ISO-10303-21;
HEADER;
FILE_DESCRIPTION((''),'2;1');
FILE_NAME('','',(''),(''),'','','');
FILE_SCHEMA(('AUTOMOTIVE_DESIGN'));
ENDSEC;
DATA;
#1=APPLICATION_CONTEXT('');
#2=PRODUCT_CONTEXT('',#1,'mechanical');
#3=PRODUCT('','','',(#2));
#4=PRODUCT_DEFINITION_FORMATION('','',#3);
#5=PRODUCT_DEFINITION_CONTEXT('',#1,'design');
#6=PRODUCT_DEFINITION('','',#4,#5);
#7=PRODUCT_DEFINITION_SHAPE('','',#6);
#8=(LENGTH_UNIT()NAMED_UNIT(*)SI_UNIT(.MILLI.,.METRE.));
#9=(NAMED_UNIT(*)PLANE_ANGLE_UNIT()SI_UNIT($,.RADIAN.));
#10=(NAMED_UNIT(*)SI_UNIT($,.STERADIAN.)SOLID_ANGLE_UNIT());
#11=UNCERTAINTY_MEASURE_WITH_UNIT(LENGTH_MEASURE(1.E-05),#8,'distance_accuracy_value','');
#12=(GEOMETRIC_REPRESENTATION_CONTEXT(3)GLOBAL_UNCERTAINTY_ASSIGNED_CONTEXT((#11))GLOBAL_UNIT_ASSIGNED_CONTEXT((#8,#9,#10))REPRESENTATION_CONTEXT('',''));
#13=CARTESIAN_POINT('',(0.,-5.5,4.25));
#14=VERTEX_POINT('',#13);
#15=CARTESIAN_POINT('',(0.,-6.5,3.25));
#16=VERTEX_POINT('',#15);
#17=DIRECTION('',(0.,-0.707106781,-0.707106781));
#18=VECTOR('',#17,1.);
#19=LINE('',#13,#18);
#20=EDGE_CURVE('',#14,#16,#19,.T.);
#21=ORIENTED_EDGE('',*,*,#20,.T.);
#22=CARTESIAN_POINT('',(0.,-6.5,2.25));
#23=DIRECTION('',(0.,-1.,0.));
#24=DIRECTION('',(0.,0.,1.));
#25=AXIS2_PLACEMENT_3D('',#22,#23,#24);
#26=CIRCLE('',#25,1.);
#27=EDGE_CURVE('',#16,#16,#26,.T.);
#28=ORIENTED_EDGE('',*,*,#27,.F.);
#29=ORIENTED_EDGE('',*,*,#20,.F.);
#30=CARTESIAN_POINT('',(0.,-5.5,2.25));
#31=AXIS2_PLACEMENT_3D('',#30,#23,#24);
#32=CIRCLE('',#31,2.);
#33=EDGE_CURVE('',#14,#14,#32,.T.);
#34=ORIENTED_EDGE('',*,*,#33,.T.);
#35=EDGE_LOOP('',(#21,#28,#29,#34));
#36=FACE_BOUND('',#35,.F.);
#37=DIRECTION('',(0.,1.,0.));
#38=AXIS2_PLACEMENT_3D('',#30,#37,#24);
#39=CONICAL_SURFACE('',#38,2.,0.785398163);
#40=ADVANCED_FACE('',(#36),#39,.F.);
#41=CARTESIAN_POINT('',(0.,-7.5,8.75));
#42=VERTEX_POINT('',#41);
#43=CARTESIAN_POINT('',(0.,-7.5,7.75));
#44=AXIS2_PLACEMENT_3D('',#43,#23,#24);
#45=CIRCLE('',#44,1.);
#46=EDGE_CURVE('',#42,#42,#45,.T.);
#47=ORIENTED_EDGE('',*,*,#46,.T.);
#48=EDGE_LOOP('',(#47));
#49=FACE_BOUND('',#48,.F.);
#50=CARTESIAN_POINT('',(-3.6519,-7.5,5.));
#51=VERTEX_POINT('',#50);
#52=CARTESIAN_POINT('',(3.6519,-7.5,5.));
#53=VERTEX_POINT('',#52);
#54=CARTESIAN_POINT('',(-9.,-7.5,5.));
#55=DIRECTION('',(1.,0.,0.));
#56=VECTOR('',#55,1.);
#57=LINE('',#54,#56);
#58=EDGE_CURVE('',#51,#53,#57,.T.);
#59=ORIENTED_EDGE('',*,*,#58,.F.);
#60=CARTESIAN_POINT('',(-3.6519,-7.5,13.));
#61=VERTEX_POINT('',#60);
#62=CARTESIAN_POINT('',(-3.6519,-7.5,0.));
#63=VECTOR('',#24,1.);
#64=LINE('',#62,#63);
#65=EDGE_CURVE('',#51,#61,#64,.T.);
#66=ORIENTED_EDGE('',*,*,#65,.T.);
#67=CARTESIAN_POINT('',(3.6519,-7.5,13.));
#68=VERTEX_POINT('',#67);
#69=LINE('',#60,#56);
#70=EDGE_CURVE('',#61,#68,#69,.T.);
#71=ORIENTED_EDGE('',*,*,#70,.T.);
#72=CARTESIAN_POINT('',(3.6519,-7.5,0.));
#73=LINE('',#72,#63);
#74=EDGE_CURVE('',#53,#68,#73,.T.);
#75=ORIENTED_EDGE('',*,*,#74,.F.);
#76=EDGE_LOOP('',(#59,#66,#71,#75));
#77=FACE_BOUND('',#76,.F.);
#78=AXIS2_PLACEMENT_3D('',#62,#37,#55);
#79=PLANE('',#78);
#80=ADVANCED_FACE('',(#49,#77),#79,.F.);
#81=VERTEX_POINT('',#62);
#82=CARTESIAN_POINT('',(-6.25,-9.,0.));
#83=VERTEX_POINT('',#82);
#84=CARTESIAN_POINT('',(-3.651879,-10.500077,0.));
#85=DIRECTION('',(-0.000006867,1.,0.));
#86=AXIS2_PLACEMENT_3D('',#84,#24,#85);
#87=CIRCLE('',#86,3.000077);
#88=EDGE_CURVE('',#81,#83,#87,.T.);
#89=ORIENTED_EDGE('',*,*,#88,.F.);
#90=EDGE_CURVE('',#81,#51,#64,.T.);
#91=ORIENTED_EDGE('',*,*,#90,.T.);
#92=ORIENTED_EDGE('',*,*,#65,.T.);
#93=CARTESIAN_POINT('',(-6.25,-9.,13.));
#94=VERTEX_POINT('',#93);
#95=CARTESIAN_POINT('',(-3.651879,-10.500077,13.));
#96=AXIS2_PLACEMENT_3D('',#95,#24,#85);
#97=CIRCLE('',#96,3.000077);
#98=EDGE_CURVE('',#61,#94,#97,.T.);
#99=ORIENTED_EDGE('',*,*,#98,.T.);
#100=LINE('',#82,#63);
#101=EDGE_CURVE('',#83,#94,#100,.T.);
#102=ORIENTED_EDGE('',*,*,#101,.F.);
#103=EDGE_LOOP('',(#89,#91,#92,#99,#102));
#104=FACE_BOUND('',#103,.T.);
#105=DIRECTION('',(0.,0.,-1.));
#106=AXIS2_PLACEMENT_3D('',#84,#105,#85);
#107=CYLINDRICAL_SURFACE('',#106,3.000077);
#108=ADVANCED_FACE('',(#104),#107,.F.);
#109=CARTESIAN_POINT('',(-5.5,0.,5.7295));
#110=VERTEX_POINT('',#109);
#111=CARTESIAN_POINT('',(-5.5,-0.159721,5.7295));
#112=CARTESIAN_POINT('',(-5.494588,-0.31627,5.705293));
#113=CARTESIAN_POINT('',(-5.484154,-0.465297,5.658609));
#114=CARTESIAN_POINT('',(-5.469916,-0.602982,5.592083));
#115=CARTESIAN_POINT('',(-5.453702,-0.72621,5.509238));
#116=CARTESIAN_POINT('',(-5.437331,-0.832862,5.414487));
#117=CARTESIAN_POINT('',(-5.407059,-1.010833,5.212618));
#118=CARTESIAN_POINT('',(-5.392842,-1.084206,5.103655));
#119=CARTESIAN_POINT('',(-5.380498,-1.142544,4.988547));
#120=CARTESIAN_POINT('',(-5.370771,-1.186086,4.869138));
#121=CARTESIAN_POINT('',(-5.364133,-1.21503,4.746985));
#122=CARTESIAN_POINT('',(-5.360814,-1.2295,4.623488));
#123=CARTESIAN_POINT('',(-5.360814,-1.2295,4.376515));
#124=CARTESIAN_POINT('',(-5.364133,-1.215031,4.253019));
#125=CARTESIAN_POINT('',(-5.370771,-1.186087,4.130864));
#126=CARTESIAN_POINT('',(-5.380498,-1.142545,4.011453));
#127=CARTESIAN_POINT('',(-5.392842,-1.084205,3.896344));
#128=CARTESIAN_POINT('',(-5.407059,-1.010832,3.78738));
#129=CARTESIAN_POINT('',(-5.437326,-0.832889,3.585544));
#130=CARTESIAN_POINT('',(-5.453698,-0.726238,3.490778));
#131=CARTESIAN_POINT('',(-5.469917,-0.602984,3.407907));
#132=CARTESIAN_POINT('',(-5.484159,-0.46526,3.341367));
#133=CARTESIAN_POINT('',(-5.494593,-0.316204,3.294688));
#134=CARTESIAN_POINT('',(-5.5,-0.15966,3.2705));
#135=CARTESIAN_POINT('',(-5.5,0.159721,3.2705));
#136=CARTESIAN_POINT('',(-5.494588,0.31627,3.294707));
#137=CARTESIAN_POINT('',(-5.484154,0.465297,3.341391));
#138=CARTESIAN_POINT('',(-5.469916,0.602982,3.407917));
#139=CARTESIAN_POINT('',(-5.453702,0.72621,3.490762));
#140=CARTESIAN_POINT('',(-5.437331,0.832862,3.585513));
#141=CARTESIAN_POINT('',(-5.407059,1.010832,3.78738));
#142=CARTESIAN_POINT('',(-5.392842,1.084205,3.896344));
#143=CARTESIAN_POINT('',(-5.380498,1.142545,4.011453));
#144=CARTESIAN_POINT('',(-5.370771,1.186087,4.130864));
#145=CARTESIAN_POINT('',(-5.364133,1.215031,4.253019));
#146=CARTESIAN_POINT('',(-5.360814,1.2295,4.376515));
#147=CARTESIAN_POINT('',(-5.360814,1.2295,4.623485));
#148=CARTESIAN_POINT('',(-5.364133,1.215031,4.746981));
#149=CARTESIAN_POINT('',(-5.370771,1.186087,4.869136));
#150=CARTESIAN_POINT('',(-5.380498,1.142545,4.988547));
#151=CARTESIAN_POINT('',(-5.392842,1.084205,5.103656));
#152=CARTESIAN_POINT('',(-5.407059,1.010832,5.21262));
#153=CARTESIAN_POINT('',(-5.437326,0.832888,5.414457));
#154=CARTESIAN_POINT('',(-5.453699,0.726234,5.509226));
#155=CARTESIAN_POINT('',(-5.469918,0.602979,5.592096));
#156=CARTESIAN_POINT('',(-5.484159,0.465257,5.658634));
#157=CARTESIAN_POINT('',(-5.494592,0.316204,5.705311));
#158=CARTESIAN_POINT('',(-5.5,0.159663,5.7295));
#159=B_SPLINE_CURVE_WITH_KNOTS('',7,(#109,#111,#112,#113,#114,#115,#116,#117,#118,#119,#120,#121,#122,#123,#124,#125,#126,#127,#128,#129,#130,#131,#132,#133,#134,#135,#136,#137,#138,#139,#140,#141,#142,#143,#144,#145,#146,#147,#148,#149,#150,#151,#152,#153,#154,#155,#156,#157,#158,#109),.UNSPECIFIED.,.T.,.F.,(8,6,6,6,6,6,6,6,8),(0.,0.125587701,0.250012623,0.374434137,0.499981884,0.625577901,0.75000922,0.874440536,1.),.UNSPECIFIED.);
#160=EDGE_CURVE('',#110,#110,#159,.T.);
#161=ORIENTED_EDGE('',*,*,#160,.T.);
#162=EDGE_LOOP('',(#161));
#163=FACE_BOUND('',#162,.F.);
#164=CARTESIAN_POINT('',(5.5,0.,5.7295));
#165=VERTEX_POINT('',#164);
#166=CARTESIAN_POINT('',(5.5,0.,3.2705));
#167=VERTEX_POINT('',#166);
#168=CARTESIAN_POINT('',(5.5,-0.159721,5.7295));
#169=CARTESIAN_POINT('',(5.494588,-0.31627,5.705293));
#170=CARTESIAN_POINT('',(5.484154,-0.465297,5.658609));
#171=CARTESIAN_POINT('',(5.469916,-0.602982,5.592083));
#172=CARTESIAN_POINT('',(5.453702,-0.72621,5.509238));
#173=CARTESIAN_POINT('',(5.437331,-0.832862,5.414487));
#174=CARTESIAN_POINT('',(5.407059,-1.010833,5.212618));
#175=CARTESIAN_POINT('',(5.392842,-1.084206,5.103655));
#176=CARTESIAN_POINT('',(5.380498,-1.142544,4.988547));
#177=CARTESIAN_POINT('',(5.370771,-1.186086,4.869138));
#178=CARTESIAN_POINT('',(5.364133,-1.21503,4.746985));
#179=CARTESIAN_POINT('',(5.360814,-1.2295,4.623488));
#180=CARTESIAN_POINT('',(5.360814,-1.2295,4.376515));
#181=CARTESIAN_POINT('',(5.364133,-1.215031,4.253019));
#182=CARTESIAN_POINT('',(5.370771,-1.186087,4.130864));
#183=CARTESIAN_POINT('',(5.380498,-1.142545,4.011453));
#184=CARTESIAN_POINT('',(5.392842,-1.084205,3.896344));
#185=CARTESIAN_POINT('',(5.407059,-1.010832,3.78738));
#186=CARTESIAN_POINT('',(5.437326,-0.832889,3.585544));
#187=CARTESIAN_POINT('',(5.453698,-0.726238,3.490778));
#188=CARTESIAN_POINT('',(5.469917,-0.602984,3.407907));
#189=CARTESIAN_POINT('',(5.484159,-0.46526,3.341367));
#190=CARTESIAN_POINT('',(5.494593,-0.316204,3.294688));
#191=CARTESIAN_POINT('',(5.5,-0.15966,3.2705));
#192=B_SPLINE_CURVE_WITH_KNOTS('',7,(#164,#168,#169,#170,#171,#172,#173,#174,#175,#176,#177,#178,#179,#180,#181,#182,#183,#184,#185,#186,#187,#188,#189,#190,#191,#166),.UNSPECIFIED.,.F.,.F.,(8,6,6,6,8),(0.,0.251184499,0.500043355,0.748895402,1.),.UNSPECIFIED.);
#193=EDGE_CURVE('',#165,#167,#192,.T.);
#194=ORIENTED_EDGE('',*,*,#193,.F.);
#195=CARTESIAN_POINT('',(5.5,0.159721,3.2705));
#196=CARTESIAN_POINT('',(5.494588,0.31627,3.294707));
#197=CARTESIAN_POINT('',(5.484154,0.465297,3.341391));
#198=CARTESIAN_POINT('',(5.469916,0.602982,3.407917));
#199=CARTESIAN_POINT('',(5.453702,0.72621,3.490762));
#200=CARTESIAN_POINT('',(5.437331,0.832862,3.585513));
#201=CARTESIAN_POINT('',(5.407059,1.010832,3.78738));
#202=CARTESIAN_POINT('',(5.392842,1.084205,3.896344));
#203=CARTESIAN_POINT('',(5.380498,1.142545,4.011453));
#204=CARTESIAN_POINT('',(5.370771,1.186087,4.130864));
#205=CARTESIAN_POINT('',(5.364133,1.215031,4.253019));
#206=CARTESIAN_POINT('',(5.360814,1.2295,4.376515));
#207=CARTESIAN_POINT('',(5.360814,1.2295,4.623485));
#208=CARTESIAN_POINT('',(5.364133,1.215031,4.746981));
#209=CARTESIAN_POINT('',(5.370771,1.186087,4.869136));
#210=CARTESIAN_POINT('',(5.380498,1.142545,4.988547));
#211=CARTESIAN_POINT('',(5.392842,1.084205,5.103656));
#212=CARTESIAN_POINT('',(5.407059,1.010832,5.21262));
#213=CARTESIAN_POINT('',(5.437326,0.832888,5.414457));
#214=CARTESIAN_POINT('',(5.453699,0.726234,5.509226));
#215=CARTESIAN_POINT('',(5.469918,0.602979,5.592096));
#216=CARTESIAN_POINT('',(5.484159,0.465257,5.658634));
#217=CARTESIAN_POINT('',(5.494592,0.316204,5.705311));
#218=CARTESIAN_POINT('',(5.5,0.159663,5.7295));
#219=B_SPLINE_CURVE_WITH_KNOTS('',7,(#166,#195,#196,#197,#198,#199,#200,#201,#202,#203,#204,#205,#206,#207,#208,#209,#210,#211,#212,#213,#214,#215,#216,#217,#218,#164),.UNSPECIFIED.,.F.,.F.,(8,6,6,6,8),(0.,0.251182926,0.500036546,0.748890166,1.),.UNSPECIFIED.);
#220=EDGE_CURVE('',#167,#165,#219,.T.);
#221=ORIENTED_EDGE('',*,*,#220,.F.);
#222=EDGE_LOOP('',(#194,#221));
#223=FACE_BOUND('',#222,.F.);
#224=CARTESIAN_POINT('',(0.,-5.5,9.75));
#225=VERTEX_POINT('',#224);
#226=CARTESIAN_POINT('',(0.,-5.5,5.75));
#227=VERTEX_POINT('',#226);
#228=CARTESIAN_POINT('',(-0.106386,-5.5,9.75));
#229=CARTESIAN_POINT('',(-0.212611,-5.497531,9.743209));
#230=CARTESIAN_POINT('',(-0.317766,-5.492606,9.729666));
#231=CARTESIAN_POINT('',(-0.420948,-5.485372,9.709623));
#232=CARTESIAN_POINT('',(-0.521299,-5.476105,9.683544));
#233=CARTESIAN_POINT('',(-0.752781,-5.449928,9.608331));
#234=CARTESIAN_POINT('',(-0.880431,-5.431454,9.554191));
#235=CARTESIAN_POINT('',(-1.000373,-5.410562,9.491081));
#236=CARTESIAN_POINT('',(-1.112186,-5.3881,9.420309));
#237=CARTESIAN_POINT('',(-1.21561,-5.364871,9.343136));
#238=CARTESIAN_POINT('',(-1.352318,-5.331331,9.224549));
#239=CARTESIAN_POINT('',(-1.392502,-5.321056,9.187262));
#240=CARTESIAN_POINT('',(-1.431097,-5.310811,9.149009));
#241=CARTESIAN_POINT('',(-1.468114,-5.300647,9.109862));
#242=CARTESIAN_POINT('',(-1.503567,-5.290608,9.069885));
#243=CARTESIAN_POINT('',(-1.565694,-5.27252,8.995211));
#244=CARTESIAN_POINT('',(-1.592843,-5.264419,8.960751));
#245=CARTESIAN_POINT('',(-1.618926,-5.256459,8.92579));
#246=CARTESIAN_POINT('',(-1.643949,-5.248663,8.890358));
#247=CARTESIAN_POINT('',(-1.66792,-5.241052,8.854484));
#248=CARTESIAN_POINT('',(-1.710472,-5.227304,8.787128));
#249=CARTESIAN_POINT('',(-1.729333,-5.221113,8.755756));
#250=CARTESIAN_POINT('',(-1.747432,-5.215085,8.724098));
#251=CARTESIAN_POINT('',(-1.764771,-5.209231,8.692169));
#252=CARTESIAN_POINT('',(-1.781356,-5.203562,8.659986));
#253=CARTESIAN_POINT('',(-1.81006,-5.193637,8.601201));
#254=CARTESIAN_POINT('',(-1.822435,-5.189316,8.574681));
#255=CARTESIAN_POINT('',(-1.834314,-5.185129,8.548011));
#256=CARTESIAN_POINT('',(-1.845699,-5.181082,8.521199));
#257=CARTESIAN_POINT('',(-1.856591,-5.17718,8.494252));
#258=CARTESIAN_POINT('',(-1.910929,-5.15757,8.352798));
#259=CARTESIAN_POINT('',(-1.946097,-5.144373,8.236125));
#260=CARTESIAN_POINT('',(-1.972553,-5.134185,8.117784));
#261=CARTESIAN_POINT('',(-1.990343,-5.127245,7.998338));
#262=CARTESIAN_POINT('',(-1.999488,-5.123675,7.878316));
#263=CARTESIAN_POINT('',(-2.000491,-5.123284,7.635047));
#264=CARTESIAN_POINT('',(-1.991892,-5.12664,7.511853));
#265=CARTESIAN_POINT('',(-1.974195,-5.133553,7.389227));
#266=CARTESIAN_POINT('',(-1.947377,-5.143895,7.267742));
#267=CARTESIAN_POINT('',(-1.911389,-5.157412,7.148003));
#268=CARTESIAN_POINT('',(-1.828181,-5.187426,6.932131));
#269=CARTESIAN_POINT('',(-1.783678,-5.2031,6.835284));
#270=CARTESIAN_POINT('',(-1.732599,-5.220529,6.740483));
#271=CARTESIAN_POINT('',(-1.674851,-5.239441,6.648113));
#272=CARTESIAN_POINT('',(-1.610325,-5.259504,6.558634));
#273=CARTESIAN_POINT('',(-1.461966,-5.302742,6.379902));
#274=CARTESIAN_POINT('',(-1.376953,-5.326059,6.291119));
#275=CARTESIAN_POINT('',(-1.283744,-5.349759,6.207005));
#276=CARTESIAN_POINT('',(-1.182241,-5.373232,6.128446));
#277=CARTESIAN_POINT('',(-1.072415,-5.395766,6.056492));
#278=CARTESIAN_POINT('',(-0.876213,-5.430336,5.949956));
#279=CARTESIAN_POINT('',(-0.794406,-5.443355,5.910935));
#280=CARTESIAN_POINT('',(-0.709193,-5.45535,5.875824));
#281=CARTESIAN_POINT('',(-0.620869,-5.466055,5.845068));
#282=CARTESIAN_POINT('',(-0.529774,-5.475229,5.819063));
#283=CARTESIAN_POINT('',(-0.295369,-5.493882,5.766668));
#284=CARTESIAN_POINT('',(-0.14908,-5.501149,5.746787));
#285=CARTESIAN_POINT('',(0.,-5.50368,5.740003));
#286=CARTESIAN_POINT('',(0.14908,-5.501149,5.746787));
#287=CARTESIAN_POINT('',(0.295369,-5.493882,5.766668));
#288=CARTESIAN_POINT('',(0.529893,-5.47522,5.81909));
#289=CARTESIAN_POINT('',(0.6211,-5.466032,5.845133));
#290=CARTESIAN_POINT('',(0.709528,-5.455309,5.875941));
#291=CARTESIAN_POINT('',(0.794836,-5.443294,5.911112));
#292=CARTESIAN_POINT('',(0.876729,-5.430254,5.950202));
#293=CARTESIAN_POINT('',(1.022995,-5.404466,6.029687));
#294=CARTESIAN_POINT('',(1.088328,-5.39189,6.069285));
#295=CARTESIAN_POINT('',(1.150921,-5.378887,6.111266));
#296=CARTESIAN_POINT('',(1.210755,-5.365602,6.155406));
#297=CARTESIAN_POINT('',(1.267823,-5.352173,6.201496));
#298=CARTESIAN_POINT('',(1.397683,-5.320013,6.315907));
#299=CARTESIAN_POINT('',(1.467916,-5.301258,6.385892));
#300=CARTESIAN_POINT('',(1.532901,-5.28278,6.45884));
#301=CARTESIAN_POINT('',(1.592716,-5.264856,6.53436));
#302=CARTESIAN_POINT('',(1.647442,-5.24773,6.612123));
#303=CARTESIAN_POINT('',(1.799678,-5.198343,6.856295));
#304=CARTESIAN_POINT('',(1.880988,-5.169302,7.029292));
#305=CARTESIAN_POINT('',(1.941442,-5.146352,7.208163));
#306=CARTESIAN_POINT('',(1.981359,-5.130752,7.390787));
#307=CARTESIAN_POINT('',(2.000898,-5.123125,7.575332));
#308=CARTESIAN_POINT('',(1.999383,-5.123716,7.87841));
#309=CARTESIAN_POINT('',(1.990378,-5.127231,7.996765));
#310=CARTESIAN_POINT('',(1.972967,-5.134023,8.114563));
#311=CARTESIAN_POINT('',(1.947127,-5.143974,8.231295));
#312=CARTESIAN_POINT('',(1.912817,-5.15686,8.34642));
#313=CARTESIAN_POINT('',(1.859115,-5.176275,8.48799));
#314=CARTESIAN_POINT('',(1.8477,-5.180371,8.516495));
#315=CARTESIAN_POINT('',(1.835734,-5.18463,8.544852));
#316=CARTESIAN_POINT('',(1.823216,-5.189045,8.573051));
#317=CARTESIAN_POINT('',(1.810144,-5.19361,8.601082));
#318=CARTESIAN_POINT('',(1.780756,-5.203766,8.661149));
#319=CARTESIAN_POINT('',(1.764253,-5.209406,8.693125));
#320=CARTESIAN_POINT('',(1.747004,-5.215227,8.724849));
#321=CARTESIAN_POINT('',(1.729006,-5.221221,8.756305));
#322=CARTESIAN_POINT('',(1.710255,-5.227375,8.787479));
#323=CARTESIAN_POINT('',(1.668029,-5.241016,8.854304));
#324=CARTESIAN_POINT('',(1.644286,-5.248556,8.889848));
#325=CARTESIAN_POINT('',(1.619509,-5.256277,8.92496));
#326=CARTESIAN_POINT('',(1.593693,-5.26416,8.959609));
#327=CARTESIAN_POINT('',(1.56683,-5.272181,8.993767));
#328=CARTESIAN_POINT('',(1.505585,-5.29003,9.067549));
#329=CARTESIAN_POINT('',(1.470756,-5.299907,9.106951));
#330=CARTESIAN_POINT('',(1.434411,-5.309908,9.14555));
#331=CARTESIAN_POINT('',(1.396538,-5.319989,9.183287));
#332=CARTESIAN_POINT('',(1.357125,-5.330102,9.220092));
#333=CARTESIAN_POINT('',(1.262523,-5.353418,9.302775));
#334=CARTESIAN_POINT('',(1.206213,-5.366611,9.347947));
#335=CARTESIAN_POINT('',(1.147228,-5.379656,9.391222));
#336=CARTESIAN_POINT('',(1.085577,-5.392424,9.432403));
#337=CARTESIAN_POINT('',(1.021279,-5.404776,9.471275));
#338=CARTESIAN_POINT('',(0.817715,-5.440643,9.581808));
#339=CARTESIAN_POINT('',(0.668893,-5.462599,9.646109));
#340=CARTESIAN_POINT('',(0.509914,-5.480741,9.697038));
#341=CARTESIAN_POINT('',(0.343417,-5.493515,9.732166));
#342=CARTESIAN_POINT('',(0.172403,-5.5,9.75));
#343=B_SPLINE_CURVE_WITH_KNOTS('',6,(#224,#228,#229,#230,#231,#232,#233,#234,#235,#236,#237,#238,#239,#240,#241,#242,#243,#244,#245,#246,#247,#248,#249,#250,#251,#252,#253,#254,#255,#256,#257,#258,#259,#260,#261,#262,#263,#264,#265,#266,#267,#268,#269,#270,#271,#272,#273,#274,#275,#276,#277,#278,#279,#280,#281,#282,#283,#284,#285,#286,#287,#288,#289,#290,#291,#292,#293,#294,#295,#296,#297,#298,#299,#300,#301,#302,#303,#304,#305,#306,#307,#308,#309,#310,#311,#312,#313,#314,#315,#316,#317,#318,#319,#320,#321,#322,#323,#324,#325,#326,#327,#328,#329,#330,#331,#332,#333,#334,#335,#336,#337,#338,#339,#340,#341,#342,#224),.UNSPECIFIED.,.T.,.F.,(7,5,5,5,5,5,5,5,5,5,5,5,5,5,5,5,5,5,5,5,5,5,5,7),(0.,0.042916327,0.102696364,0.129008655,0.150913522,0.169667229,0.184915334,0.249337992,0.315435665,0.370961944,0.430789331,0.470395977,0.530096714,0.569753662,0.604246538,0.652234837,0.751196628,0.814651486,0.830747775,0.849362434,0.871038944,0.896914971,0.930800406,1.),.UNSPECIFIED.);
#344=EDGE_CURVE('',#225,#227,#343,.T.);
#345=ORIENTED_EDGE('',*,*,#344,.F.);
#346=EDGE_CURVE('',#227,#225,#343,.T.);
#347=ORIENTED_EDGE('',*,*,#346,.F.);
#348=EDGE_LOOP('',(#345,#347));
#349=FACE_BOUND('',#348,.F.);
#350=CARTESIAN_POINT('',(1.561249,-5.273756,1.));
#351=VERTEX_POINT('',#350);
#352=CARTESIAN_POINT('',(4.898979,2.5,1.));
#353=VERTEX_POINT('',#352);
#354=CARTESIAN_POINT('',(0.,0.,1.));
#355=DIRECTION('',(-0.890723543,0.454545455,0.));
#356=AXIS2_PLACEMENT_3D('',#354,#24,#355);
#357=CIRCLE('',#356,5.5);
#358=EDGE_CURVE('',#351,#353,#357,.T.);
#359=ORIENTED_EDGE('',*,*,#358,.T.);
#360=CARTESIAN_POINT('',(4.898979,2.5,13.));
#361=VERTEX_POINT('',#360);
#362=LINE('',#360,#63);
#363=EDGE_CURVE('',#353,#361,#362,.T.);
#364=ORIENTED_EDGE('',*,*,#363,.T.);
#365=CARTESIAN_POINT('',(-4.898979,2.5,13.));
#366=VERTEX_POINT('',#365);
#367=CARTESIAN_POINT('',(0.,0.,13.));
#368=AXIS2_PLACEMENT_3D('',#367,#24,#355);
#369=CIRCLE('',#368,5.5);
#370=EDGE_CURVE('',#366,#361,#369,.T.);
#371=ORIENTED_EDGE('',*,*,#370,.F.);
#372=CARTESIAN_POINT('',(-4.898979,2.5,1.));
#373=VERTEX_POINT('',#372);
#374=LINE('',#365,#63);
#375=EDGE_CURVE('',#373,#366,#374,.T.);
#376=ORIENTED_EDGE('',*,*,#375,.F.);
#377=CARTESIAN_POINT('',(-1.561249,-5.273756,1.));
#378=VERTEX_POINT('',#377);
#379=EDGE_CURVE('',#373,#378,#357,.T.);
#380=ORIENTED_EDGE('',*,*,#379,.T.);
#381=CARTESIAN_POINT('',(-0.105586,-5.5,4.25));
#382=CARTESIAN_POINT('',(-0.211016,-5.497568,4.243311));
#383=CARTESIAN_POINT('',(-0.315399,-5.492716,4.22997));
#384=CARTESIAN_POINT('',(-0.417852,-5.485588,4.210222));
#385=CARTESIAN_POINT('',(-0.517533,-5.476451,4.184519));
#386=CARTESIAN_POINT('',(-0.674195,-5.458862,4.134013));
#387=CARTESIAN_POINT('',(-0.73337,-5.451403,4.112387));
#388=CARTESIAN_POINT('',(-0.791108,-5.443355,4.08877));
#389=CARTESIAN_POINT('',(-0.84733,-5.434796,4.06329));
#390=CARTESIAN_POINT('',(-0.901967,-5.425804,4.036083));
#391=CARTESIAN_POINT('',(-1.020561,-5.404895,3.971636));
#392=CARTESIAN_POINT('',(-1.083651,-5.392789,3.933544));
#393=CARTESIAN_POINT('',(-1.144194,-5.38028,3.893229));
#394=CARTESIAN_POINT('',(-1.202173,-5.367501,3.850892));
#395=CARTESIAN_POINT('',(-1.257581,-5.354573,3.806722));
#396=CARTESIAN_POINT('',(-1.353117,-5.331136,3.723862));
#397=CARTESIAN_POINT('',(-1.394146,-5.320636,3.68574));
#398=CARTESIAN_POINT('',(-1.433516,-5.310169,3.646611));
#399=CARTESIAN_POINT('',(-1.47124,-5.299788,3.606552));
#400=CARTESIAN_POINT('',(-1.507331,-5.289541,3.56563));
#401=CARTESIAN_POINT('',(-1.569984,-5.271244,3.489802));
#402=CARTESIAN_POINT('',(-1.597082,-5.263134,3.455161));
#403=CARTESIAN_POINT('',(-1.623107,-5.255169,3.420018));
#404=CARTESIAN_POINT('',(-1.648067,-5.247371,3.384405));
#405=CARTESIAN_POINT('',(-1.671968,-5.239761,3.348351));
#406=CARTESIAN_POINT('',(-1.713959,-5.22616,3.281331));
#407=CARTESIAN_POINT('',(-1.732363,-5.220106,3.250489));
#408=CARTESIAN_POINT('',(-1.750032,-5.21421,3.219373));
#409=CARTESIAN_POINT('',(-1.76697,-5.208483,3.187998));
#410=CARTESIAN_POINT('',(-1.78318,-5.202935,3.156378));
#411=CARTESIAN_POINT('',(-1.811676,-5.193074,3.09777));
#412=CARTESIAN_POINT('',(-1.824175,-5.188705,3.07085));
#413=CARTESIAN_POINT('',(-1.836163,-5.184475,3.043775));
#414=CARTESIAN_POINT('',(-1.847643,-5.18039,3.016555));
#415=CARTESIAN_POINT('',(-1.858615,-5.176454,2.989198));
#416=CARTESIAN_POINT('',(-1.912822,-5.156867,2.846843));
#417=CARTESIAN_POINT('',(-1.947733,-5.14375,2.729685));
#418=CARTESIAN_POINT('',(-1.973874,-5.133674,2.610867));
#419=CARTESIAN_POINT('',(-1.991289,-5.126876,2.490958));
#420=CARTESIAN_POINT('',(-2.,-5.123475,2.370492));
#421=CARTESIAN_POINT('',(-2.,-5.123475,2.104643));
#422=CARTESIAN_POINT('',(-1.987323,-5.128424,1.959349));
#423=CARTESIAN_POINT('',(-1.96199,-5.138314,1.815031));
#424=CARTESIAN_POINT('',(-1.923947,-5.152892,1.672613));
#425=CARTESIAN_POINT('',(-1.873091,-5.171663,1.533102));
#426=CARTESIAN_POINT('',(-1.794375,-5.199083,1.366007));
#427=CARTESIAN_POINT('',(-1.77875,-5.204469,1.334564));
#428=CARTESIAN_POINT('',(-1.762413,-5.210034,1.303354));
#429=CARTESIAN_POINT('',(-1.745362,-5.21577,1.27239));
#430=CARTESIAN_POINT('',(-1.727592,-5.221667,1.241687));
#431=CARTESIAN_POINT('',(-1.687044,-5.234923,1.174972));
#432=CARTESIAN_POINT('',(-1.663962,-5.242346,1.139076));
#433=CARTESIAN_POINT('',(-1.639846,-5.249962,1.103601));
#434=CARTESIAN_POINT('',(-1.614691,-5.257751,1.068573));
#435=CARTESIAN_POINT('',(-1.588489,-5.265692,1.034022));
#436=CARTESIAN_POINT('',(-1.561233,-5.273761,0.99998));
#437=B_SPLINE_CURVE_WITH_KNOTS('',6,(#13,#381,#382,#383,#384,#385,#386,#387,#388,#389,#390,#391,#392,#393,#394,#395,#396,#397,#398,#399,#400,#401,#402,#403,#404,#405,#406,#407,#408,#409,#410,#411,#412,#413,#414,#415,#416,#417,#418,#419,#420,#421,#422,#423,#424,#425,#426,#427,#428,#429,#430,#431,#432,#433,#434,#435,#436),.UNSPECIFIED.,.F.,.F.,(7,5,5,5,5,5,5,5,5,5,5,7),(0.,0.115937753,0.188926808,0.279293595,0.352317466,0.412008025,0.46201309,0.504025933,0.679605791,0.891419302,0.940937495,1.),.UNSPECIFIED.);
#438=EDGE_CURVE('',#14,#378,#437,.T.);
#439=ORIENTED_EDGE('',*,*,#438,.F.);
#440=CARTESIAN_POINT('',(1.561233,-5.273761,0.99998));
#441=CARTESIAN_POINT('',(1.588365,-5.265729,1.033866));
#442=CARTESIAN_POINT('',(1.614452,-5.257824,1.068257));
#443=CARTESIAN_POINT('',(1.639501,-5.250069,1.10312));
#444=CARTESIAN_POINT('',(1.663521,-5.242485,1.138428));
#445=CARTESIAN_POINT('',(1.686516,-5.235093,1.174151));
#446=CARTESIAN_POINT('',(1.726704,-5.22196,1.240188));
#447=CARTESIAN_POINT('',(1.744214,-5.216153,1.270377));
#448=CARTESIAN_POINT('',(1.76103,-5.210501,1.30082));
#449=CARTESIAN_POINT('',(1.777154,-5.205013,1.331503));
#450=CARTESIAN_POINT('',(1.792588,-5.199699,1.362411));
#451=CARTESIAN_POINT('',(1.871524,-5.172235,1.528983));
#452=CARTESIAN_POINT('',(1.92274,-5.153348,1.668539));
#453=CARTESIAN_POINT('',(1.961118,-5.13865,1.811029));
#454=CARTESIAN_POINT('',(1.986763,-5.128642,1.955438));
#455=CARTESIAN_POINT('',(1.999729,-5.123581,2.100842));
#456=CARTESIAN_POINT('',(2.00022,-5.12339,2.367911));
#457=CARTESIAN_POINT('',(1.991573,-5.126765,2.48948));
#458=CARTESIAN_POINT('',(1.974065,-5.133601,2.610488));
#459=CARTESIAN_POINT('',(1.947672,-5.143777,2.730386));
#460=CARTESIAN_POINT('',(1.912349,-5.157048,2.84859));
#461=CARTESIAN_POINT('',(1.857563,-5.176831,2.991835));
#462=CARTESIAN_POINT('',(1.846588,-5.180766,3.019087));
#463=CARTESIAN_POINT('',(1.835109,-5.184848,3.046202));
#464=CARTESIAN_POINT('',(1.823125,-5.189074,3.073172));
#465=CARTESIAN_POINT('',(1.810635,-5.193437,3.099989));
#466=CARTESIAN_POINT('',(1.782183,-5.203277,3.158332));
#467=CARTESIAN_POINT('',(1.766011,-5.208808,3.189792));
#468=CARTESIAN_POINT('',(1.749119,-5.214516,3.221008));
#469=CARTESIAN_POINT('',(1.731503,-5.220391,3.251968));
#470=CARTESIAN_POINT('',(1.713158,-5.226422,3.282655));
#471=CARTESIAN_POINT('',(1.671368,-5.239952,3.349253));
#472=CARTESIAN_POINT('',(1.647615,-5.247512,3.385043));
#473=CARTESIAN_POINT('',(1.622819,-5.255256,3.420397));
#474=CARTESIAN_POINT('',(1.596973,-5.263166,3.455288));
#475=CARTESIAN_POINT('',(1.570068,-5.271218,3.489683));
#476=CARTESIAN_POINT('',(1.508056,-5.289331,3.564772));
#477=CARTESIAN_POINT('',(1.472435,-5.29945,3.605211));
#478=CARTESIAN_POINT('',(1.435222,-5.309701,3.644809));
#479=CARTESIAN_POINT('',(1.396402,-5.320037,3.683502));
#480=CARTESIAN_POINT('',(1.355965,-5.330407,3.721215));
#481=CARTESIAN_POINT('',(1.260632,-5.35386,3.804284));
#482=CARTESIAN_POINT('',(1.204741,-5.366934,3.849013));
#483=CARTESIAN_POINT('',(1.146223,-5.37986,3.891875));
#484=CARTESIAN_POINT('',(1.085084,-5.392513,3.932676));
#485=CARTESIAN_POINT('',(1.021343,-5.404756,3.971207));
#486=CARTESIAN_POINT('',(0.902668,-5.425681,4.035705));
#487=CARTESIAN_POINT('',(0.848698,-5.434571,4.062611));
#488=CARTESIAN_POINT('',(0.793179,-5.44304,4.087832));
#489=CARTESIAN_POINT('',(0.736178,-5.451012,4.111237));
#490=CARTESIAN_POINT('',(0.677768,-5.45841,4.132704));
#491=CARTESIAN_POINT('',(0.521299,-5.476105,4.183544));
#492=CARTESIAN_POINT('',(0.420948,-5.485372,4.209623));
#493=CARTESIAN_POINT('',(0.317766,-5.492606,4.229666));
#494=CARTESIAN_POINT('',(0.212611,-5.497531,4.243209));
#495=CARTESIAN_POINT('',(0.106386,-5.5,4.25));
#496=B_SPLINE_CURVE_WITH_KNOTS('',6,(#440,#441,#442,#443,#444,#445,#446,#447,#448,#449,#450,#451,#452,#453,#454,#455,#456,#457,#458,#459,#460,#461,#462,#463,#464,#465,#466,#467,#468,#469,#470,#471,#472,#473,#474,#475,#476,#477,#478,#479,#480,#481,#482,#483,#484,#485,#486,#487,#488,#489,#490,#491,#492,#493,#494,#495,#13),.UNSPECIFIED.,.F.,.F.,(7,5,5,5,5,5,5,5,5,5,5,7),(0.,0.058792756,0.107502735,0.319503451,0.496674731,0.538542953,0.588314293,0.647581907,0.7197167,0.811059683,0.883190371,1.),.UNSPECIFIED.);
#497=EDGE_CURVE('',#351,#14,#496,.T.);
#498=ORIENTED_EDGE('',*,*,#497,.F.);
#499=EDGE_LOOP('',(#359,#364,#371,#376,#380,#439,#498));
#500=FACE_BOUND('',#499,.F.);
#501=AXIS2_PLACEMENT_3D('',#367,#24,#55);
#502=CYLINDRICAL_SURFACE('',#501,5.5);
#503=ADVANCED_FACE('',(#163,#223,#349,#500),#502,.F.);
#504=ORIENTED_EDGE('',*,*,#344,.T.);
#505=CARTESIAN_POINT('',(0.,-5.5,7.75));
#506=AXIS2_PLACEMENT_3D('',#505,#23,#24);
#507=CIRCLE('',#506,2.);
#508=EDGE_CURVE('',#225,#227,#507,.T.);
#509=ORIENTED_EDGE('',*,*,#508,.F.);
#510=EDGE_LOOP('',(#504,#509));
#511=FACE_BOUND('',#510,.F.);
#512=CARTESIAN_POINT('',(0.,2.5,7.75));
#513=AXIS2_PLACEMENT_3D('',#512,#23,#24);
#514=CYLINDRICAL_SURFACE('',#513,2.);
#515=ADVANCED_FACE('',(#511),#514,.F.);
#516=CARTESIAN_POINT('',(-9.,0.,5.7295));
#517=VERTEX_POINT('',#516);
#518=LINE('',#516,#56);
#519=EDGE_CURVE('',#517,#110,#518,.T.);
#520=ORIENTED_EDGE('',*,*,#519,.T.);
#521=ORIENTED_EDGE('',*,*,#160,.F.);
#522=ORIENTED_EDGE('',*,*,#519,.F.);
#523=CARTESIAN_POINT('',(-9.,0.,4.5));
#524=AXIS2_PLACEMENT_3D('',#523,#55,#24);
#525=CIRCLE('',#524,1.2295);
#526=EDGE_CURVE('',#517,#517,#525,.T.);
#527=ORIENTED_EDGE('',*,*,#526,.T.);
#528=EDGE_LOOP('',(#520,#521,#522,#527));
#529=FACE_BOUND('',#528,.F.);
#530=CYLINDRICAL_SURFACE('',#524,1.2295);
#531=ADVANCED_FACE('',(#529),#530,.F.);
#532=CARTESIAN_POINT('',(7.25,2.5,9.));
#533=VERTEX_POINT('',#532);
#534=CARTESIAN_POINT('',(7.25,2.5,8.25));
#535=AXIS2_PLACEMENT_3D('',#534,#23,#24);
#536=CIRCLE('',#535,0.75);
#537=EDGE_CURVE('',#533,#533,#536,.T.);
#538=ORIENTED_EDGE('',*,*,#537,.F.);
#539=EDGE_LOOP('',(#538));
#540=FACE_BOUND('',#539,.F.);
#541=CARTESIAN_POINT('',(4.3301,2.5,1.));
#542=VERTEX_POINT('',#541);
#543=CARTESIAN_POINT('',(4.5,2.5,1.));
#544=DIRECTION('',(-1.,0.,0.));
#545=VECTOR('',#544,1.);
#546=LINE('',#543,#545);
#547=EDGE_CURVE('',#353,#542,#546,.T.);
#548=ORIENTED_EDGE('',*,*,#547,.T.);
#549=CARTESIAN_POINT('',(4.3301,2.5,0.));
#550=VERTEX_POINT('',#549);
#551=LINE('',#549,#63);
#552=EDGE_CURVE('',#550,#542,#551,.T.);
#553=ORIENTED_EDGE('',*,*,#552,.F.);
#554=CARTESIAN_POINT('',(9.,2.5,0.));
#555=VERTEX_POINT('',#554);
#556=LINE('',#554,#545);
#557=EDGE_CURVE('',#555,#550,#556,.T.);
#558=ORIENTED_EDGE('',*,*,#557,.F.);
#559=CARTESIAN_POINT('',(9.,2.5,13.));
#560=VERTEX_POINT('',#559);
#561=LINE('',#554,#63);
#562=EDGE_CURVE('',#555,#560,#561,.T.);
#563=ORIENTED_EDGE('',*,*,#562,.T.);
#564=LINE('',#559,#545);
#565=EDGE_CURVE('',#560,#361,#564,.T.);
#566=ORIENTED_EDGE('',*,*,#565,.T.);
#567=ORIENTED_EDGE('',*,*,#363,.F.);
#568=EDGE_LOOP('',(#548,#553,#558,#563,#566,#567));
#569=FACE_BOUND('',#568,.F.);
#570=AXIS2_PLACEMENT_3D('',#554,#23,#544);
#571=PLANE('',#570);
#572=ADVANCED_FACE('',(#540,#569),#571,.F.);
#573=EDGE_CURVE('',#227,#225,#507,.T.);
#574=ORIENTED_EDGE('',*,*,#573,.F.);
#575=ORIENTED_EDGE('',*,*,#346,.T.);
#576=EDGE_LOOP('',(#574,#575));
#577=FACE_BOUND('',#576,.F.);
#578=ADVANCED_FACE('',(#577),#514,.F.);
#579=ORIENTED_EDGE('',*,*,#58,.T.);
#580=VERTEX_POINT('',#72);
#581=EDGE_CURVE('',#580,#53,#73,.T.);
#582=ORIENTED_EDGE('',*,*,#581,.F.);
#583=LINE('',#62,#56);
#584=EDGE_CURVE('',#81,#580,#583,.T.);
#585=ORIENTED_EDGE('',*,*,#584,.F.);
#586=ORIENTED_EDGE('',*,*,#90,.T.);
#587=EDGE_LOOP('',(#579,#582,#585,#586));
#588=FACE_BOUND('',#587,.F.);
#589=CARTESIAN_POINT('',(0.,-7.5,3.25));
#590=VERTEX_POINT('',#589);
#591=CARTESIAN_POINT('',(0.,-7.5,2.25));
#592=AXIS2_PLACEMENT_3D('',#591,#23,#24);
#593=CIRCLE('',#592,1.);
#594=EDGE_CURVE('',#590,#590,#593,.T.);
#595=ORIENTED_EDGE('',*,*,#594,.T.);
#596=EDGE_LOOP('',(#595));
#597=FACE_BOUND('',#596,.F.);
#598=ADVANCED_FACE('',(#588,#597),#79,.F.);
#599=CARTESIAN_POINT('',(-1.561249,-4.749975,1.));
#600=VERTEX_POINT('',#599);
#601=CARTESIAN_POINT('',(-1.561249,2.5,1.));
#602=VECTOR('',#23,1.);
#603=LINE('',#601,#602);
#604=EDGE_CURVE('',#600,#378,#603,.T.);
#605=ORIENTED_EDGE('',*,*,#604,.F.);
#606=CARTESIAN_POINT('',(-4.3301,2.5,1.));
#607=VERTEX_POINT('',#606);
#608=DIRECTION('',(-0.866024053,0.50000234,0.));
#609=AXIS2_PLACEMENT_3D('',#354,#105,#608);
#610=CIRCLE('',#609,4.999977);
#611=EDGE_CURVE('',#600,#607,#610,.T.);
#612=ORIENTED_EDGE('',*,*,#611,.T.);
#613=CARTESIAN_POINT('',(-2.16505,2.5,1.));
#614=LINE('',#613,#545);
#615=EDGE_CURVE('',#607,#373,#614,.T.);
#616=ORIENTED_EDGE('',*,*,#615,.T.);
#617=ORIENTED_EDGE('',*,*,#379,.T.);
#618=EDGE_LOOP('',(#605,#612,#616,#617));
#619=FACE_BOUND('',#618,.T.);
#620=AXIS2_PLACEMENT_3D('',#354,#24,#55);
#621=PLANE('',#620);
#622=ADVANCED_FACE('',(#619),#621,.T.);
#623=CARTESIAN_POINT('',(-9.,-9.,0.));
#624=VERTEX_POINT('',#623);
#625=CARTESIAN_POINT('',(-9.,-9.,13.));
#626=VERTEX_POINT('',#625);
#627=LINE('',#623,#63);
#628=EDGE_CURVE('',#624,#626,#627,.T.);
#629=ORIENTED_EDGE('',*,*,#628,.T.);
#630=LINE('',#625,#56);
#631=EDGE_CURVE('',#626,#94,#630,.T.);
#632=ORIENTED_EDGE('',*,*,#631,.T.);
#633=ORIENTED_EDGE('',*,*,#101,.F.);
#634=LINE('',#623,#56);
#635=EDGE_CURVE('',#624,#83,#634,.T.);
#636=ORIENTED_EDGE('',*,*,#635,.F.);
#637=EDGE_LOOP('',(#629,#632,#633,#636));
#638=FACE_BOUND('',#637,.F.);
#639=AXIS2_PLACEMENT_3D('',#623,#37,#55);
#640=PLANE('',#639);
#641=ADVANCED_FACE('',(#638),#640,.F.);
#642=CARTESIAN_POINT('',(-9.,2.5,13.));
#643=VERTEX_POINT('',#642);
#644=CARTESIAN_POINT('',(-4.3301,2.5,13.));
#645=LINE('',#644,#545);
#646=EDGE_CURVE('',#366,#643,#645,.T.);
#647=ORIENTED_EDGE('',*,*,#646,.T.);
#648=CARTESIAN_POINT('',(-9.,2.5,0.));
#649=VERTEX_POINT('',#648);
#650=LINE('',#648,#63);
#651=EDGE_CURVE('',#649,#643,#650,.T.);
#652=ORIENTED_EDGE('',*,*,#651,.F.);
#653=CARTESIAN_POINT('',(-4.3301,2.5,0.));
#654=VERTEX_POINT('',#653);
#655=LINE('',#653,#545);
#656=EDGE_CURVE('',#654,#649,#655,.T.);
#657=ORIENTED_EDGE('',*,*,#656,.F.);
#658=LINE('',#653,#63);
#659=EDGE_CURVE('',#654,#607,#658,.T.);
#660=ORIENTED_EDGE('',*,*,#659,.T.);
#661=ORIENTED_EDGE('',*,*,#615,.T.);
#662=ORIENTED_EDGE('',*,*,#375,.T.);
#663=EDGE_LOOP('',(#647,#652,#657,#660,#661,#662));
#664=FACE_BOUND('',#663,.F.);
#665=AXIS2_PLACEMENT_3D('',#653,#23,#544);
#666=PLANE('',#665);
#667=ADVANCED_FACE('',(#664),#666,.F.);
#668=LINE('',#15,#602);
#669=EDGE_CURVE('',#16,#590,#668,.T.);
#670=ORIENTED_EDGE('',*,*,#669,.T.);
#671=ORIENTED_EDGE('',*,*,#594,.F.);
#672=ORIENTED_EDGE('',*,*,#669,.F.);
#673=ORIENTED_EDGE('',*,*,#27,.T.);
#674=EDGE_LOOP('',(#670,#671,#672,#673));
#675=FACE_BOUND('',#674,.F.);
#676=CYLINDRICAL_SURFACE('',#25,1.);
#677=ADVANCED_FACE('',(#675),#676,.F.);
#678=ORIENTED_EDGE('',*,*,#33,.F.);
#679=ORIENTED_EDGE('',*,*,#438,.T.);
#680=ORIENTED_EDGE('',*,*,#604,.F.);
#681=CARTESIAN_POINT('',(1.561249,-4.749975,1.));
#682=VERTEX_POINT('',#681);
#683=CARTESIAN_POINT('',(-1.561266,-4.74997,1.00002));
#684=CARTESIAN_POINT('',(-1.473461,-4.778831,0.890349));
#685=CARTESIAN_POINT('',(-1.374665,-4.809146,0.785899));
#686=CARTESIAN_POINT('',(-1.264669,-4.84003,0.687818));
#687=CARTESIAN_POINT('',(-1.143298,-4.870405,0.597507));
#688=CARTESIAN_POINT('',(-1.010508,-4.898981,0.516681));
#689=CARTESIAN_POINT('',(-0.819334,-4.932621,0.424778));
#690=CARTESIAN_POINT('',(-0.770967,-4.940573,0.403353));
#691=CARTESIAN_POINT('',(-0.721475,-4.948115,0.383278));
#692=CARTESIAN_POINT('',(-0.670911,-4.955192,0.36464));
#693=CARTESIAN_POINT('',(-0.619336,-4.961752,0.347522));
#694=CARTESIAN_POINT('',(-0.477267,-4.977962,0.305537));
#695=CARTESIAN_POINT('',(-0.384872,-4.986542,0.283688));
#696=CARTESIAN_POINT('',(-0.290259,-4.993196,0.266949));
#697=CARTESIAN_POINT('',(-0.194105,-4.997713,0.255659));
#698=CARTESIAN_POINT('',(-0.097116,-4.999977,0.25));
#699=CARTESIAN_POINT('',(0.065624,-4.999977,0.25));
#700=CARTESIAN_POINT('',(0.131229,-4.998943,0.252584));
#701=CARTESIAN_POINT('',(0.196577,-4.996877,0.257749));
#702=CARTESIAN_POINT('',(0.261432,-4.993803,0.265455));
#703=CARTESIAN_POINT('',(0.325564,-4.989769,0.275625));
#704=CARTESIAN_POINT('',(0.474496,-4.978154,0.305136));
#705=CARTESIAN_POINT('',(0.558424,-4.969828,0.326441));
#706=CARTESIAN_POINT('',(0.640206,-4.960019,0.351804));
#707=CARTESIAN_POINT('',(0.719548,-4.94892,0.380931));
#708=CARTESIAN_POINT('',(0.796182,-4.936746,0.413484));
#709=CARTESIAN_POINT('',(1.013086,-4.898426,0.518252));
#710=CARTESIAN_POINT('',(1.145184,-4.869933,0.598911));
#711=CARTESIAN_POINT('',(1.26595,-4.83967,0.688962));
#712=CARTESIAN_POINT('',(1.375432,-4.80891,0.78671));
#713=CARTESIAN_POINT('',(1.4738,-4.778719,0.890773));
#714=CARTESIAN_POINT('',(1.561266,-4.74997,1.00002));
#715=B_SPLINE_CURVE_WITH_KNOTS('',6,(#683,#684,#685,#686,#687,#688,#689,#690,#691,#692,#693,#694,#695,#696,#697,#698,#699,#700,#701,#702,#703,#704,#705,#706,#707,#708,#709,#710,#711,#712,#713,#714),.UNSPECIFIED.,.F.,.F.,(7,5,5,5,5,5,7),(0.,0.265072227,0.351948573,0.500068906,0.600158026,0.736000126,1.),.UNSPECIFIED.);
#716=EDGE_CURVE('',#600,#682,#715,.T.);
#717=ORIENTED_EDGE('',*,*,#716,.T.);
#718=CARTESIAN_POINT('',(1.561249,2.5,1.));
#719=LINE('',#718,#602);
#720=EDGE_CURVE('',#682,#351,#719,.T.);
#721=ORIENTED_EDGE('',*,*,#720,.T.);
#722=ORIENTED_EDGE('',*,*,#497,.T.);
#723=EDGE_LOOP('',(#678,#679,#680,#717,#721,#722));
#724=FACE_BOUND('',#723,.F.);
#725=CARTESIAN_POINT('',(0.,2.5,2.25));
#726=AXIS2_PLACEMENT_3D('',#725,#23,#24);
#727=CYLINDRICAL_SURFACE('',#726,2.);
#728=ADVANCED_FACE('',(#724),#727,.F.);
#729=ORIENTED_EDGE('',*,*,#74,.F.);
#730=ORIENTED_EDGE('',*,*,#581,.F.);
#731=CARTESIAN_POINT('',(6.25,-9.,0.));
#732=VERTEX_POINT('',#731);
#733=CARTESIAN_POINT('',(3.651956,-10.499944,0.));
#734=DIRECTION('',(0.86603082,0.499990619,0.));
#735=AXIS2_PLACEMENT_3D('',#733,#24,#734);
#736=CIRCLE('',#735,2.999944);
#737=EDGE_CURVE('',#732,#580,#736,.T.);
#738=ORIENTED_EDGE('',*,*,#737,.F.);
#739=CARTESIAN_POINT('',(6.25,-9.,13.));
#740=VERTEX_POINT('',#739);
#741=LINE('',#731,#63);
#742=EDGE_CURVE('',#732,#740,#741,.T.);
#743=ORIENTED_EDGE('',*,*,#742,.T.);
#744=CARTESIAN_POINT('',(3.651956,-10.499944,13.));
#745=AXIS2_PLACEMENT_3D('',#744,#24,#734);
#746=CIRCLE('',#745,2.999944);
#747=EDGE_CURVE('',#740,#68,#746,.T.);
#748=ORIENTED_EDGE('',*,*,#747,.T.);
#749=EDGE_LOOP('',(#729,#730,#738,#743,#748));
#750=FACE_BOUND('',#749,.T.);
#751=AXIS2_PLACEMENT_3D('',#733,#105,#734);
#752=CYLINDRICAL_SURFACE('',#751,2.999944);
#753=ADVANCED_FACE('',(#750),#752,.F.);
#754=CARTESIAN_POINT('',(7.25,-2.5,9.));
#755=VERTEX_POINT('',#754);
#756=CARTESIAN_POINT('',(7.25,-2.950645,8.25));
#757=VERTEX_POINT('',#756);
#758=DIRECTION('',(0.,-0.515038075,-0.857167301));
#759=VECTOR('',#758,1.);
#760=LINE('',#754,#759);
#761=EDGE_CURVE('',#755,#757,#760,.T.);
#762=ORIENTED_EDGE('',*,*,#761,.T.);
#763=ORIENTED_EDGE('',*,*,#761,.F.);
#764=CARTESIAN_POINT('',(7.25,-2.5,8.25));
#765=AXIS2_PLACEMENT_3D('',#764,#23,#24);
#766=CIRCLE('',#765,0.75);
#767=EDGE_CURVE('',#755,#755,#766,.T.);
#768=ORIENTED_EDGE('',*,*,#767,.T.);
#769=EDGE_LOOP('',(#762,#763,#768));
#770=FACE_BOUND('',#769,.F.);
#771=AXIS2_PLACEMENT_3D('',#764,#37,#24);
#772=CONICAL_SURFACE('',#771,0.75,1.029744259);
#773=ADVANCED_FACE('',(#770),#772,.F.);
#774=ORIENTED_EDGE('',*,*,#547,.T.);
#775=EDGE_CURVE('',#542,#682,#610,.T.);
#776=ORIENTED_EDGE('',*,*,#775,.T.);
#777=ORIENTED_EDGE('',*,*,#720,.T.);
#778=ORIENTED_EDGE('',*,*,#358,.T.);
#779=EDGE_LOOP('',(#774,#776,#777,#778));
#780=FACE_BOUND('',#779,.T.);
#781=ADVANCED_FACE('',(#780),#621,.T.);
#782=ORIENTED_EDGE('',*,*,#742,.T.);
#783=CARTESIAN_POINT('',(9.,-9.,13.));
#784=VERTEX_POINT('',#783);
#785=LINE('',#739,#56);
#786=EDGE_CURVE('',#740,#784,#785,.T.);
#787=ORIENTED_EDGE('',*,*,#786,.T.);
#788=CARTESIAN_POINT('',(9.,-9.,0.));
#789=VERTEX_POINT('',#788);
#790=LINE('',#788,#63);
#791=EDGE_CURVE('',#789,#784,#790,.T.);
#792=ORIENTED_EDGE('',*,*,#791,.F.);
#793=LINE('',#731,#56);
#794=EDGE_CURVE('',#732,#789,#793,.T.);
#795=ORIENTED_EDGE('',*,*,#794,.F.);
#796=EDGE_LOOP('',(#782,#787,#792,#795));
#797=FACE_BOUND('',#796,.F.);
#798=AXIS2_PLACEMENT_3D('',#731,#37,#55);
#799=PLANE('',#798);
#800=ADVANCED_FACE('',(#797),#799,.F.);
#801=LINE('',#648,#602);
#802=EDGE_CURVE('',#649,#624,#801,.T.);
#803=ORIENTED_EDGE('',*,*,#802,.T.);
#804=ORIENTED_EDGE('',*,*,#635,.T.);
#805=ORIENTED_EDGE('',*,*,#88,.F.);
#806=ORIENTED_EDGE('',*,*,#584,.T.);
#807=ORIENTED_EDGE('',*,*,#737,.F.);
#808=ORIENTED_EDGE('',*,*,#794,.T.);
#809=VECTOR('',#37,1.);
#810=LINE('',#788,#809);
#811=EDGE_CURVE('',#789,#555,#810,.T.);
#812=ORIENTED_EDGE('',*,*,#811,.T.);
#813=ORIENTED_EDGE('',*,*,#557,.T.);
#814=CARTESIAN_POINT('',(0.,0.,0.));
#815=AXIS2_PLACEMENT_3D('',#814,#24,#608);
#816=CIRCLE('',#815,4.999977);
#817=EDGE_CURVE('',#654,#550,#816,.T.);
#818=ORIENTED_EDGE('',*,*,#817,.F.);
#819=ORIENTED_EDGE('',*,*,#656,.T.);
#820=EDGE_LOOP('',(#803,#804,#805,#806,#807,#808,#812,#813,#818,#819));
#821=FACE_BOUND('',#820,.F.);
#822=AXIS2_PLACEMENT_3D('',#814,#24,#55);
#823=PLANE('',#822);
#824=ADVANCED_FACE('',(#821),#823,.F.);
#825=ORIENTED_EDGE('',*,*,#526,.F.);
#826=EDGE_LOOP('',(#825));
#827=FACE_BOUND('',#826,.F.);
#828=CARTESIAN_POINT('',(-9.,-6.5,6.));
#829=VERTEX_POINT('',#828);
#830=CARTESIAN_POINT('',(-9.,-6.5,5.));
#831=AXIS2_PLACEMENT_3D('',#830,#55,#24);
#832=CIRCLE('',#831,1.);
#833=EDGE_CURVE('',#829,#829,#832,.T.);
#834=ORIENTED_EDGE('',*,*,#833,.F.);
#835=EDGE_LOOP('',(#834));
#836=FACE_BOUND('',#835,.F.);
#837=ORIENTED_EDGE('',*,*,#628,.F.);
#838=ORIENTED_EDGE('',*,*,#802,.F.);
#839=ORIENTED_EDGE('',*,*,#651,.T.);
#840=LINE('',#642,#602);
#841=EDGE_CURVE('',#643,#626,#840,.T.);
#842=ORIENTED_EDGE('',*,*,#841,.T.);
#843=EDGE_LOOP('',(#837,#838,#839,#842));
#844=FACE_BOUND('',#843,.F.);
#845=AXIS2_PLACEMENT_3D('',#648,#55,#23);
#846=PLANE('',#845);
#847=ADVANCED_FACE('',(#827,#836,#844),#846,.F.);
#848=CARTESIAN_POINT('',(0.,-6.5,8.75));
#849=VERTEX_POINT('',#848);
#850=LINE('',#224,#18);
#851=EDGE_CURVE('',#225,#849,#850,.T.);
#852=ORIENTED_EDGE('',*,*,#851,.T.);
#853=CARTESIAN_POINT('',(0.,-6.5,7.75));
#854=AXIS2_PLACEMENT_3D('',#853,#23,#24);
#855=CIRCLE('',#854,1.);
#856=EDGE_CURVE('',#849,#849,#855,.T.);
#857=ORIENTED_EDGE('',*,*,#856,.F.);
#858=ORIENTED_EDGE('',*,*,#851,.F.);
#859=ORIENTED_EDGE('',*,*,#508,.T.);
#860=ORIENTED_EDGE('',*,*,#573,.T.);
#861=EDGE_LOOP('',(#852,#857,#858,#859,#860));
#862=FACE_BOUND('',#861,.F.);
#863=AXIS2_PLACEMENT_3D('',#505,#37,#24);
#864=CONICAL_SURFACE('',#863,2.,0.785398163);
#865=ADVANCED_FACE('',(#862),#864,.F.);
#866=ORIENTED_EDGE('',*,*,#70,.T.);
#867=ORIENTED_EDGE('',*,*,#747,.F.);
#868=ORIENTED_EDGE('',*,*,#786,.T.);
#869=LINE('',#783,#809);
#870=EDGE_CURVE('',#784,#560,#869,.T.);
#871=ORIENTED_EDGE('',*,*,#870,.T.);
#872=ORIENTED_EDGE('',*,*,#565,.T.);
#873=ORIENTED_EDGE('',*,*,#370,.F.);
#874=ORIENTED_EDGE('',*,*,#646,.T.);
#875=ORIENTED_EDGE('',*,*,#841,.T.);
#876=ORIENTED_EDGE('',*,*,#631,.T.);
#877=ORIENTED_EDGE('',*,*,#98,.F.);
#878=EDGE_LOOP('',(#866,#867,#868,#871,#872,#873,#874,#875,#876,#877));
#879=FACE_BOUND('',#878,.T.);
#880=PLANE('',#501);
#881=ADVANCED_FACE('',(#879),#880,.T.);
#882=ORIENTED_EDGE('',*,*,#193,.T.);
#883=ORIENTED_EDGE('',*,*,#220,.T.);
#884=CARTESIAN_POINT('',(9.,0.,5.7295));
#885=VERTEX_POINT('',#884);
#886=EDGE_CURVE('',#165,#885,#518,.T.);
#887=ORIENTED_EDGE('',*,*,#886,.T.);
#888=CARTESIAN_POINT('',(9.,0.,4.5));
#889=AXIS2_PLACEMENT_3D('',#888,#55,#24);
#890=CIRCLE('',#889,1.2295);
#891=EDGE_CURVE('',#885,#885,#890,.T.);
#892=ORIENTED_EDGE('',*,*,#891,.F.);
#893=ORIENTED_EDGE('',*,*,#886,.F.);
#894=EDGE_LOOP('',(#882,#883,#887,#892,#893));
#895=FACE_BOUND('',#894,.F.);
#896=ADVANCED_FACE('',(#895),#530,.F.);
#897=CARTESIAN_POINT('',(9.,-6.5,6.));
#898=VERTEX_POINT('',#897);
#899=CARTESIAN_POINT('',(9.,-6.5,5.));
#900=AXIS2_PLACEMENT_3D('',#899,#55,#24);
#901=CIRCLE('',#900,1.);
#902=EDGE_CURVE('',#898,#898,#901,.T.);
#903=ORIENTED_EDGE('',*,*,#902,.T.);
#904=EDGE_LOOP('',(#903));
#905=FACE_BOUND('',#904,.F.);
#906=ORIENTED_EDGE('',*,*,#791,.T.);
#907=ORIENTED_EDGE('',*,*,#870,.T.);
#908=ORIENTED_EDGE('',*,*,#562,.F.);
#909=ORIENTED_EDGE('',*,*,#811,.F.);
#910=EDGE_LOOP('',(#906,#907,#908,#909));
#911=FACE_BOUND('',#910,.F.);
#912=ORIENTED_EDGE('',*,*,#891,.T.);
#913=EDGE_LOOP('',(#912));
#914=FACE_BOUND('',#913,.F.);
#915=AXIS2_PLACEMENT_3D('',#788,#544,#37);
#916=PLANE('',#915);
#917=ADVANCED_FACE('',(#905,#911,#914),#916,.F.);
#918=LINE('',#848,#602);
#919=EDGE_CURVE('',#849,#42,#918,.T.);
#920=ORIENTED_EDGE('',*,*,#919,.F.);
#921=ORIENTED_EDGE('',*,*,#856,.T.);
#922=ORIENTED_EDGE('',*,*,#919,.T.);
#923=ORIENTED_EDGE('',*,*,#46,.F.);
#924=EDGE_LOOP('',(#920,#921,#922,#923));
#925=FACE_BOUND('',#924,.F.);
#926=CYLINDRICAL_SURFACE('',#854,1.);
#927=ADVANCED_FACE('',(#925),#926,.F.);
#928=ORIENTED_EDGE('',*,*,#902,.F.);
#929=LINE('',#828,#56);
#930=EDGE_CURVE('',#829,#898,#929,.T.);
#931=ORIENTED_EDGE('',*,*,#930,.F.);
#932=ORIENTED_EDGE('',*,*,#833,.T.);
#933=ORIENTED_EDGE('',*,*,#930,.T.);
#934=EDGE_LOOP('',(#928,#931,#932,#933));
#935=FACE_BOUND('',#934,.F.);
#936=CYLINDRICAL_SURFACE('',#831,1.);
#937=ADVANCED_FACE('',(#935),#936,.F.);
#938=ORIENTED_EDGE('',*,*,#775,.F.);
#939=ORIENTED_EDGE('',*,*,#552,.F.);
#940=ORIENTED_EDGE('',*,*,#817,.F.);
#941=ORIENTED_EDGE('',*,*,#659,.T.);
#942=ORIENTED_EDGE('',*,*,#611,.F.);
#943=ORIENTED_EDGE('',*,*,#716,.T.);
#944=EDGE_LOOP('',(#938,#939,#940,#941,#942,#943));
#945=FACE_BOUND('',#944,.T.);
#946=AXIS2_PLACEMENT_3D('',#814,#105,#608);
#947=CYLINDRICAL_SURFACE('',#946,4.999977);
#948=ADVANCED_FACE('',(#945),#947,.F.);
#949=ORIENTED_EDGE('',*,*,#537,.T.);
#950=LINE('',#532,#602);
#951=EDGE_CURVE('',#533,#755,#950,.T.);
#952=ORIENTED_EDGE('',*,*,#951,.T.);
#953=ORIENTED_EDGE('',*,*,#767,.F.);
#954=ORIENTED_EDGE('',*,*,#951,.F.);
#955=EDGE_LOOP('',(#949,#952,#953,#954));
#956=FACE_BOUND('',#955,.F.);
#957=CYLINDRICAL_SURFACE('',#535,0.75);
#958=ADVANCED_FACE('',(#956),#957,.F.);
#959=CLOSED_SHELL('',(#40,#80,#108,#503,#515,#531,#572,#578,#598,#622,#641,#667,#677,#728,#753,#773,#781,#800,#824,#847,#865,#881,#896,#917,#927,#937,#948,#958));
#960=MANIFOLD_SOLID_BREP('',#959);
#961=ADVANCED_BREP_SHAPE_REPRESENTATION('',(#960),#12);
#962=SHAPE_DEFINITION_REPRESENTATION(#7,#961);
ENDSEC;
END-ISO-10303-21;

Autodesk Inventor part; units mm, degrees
ref_plane "YZ Plane" through (0, 0, 0) normal (1, 0, 0) x (0, 1, 0)
ref_plane "XZ Plane" through (0, 0, 0) normal (0, 1, 0) x (-1, 0, 0)
sketch "Sketch1" plane through (0, 0, 0) normal (0, 0, 1) x (1, 0, 0)
  arc A0 (-4.3301, 2.5) -> (4.3301, 2.5) centre (0, 0) ccw
  line L0 (-4.3301, 2.5) -> (-9, 2.5)
  line L1 (-9, 2.5) -> (-9, -9)
  line L2 (-9, -9) -> (-6.25, -9)
  line L3 (-3.6519, -7.5) -> (3.6519, -7.5)
  line L4 (6.25, -9) -> (9, -9)
  line L5 (9, -9) -> (9, 2.5)
  line L6 (9, 2.5) -> (4.3301, 2.5)
  line L7 (0, 15.116) -> (0, -11.4442) construction
  arc A1 (-3.6519, -7.5) -> (-6.25, -9) centre (-3.6519, -10.5) ccw
  arc A2 (6.25, -9) -> (3.6519, -7.5) centre (3.6519, -10.5) ccw
  dimension "d0" = 10
  dimension "d2" = 7.5
  dimension "d5" = 18
  dimension "d6" = 2.5
  dimension "d7" = 6
  dimension "d8" = 6
  dimension "d9" = 12.5
  dimension "d10" = 1.5
sketch "Sketch2" plane through (0, 0, 0) normal (0, 0, 1) x (1, 0, 0)
  line L0 (-4.3301, 2.5) -> (-9, 2.5) projected
  line L1 (-9, 2.5) -> (-9, -9) projected
  line L2 (-9, -9) -> (-6.25, -9) projected
  arc A0 (-3.6519, -7.5) -> (-6.25, -9) centre (-3.6519, -10.5) ccw projected
  line L3 (-3.6519, -7.5) -> (3.6519, -7.5) projected
  arc A1 (6.25, -9) -> (3.6519, -7.5) centre (3.6519, -10.5) ccw projected
  line L4 (6.25, -9) -> (9, -9) projected
  line L5 (9, -9) -> (9, 2.5) projected
  line L6 (9, 2.5) -> (4.3301, 2.5) projected
  arc A2 (-4.3301, 2.5) -> (4.3301, 2.5) centre (0, 0) ccw projected
extrude "Extrusion1" add sketch "Sketch2" along normal blind 13
sketch "Sketch3" plane through (0, 0, 13) normal (0, 0, 1) x (1, 0, 0)
  circle A0 centre (0, 0) radius 5.5
  dimension "d13" = 11
extrude "Extrusion2" cut sketch "Sketch3" against normal blind 12
sketch "Sketch4" plane through (-9, 2.5, 0) normal (0, 1, 0) x (1, 0, 0)
  line L0 (9, 0) -> (9, -15.5) construction
  line L1 (18, -13) -> (13.899, -13) projected
  line L2 (14.5, -13) -> (3.5, -13) projected
  point P0 (9, -2.25)
  point P1 (9, -7.75)
  point P2 (16.25, -8.25)
  point P3 (4.101, -13)
  dimension "d16" = 7.25
  dimension "d17" = 4.75
  dimension "d18" = 5.25
  dimension "d19" = 5.5
sketch "Sketch5" plane through (4.3301, 2.5, 0) normal (0, 1, 0) x (1, 0, 0)
  point P0 (-4.3301, 0)
  point P1 (2.9199, -8.25)
hole "Hole1" at (7.25, 2.5, 8.25) direction (0, -1, 0) diameter 1.5 depth 5 tip angle 118
ref_plane "Work Plane1" through (0, -5.5, 13) normal (0, 1, 0) x (-1, 0, 0)
sketch "Sketch6" plane through (-9, 2.5, 0) normal (0, 1, 0) x (1, 0, 0)
  point P0 (9, 0)
  point P1 (9, -2.25)
  point P2 (9, -7.75)
hole "Hole2" at (0, 2.5, 7.75) at (0, 2.5, 2.25) direction (0, -1, 0) diameter 4 depth 8
sketch "Sketch7" plane through (0, -5.5, 13) normal (0, 1, 0) x (-1, 0, 0)
  point P0 (0, -13)
  point P1 (0, -10.75)
  point P2 (0, -5.25)
hole "Hole3" at (0, -5.5, 2.25) at (0, -5.5, 7.75) direction (0, -1, 0) diameter 2 end through all countersink diameter 4 countersink angle 90
sketch "Sketch8" plane through (-9, -9, 0) normal (-1, 0, 0) x (0, 0, 1)
  line L0 (0, 11.5) -> (13, 11.5) projected
  line L1 (0, 11.5) -> (0, 0) projected
  point P0 (0, 9)
  point P1 (5, 2.5)
  point P2 (4.5, 9)
  dimension "d41" = 9
  dimension "d42" = 5
  dimension "d43" = 2.5
  dimension "d44" = 4.5
sketch "Sketch9" plane through (-9, -9, 0) normal (-1, 0, 0) x (0, 0, 1)
  point P0 (0, 9)
  point P1 (5, 2.5)
hole "Hole4" at (-9, -6.5, 5) direction (1, 0, 0) diameter 2 end through all
sketch "Sketch10" plane through (-9, -9, 0) normal (-1, 0, 0) x (0, 0, 1)
  point P0 (0, 9)
  point P1 (4.5, 9)
hole "Hole5" at (-9, 0, 4.5) direction (1, 0, 0) diameter 2.459 end through all thread size "M3x0.5" class "6H" standard "ANSI Metric M Profile"
equation "\"d7\" = d8"
properties part number "trolley"
